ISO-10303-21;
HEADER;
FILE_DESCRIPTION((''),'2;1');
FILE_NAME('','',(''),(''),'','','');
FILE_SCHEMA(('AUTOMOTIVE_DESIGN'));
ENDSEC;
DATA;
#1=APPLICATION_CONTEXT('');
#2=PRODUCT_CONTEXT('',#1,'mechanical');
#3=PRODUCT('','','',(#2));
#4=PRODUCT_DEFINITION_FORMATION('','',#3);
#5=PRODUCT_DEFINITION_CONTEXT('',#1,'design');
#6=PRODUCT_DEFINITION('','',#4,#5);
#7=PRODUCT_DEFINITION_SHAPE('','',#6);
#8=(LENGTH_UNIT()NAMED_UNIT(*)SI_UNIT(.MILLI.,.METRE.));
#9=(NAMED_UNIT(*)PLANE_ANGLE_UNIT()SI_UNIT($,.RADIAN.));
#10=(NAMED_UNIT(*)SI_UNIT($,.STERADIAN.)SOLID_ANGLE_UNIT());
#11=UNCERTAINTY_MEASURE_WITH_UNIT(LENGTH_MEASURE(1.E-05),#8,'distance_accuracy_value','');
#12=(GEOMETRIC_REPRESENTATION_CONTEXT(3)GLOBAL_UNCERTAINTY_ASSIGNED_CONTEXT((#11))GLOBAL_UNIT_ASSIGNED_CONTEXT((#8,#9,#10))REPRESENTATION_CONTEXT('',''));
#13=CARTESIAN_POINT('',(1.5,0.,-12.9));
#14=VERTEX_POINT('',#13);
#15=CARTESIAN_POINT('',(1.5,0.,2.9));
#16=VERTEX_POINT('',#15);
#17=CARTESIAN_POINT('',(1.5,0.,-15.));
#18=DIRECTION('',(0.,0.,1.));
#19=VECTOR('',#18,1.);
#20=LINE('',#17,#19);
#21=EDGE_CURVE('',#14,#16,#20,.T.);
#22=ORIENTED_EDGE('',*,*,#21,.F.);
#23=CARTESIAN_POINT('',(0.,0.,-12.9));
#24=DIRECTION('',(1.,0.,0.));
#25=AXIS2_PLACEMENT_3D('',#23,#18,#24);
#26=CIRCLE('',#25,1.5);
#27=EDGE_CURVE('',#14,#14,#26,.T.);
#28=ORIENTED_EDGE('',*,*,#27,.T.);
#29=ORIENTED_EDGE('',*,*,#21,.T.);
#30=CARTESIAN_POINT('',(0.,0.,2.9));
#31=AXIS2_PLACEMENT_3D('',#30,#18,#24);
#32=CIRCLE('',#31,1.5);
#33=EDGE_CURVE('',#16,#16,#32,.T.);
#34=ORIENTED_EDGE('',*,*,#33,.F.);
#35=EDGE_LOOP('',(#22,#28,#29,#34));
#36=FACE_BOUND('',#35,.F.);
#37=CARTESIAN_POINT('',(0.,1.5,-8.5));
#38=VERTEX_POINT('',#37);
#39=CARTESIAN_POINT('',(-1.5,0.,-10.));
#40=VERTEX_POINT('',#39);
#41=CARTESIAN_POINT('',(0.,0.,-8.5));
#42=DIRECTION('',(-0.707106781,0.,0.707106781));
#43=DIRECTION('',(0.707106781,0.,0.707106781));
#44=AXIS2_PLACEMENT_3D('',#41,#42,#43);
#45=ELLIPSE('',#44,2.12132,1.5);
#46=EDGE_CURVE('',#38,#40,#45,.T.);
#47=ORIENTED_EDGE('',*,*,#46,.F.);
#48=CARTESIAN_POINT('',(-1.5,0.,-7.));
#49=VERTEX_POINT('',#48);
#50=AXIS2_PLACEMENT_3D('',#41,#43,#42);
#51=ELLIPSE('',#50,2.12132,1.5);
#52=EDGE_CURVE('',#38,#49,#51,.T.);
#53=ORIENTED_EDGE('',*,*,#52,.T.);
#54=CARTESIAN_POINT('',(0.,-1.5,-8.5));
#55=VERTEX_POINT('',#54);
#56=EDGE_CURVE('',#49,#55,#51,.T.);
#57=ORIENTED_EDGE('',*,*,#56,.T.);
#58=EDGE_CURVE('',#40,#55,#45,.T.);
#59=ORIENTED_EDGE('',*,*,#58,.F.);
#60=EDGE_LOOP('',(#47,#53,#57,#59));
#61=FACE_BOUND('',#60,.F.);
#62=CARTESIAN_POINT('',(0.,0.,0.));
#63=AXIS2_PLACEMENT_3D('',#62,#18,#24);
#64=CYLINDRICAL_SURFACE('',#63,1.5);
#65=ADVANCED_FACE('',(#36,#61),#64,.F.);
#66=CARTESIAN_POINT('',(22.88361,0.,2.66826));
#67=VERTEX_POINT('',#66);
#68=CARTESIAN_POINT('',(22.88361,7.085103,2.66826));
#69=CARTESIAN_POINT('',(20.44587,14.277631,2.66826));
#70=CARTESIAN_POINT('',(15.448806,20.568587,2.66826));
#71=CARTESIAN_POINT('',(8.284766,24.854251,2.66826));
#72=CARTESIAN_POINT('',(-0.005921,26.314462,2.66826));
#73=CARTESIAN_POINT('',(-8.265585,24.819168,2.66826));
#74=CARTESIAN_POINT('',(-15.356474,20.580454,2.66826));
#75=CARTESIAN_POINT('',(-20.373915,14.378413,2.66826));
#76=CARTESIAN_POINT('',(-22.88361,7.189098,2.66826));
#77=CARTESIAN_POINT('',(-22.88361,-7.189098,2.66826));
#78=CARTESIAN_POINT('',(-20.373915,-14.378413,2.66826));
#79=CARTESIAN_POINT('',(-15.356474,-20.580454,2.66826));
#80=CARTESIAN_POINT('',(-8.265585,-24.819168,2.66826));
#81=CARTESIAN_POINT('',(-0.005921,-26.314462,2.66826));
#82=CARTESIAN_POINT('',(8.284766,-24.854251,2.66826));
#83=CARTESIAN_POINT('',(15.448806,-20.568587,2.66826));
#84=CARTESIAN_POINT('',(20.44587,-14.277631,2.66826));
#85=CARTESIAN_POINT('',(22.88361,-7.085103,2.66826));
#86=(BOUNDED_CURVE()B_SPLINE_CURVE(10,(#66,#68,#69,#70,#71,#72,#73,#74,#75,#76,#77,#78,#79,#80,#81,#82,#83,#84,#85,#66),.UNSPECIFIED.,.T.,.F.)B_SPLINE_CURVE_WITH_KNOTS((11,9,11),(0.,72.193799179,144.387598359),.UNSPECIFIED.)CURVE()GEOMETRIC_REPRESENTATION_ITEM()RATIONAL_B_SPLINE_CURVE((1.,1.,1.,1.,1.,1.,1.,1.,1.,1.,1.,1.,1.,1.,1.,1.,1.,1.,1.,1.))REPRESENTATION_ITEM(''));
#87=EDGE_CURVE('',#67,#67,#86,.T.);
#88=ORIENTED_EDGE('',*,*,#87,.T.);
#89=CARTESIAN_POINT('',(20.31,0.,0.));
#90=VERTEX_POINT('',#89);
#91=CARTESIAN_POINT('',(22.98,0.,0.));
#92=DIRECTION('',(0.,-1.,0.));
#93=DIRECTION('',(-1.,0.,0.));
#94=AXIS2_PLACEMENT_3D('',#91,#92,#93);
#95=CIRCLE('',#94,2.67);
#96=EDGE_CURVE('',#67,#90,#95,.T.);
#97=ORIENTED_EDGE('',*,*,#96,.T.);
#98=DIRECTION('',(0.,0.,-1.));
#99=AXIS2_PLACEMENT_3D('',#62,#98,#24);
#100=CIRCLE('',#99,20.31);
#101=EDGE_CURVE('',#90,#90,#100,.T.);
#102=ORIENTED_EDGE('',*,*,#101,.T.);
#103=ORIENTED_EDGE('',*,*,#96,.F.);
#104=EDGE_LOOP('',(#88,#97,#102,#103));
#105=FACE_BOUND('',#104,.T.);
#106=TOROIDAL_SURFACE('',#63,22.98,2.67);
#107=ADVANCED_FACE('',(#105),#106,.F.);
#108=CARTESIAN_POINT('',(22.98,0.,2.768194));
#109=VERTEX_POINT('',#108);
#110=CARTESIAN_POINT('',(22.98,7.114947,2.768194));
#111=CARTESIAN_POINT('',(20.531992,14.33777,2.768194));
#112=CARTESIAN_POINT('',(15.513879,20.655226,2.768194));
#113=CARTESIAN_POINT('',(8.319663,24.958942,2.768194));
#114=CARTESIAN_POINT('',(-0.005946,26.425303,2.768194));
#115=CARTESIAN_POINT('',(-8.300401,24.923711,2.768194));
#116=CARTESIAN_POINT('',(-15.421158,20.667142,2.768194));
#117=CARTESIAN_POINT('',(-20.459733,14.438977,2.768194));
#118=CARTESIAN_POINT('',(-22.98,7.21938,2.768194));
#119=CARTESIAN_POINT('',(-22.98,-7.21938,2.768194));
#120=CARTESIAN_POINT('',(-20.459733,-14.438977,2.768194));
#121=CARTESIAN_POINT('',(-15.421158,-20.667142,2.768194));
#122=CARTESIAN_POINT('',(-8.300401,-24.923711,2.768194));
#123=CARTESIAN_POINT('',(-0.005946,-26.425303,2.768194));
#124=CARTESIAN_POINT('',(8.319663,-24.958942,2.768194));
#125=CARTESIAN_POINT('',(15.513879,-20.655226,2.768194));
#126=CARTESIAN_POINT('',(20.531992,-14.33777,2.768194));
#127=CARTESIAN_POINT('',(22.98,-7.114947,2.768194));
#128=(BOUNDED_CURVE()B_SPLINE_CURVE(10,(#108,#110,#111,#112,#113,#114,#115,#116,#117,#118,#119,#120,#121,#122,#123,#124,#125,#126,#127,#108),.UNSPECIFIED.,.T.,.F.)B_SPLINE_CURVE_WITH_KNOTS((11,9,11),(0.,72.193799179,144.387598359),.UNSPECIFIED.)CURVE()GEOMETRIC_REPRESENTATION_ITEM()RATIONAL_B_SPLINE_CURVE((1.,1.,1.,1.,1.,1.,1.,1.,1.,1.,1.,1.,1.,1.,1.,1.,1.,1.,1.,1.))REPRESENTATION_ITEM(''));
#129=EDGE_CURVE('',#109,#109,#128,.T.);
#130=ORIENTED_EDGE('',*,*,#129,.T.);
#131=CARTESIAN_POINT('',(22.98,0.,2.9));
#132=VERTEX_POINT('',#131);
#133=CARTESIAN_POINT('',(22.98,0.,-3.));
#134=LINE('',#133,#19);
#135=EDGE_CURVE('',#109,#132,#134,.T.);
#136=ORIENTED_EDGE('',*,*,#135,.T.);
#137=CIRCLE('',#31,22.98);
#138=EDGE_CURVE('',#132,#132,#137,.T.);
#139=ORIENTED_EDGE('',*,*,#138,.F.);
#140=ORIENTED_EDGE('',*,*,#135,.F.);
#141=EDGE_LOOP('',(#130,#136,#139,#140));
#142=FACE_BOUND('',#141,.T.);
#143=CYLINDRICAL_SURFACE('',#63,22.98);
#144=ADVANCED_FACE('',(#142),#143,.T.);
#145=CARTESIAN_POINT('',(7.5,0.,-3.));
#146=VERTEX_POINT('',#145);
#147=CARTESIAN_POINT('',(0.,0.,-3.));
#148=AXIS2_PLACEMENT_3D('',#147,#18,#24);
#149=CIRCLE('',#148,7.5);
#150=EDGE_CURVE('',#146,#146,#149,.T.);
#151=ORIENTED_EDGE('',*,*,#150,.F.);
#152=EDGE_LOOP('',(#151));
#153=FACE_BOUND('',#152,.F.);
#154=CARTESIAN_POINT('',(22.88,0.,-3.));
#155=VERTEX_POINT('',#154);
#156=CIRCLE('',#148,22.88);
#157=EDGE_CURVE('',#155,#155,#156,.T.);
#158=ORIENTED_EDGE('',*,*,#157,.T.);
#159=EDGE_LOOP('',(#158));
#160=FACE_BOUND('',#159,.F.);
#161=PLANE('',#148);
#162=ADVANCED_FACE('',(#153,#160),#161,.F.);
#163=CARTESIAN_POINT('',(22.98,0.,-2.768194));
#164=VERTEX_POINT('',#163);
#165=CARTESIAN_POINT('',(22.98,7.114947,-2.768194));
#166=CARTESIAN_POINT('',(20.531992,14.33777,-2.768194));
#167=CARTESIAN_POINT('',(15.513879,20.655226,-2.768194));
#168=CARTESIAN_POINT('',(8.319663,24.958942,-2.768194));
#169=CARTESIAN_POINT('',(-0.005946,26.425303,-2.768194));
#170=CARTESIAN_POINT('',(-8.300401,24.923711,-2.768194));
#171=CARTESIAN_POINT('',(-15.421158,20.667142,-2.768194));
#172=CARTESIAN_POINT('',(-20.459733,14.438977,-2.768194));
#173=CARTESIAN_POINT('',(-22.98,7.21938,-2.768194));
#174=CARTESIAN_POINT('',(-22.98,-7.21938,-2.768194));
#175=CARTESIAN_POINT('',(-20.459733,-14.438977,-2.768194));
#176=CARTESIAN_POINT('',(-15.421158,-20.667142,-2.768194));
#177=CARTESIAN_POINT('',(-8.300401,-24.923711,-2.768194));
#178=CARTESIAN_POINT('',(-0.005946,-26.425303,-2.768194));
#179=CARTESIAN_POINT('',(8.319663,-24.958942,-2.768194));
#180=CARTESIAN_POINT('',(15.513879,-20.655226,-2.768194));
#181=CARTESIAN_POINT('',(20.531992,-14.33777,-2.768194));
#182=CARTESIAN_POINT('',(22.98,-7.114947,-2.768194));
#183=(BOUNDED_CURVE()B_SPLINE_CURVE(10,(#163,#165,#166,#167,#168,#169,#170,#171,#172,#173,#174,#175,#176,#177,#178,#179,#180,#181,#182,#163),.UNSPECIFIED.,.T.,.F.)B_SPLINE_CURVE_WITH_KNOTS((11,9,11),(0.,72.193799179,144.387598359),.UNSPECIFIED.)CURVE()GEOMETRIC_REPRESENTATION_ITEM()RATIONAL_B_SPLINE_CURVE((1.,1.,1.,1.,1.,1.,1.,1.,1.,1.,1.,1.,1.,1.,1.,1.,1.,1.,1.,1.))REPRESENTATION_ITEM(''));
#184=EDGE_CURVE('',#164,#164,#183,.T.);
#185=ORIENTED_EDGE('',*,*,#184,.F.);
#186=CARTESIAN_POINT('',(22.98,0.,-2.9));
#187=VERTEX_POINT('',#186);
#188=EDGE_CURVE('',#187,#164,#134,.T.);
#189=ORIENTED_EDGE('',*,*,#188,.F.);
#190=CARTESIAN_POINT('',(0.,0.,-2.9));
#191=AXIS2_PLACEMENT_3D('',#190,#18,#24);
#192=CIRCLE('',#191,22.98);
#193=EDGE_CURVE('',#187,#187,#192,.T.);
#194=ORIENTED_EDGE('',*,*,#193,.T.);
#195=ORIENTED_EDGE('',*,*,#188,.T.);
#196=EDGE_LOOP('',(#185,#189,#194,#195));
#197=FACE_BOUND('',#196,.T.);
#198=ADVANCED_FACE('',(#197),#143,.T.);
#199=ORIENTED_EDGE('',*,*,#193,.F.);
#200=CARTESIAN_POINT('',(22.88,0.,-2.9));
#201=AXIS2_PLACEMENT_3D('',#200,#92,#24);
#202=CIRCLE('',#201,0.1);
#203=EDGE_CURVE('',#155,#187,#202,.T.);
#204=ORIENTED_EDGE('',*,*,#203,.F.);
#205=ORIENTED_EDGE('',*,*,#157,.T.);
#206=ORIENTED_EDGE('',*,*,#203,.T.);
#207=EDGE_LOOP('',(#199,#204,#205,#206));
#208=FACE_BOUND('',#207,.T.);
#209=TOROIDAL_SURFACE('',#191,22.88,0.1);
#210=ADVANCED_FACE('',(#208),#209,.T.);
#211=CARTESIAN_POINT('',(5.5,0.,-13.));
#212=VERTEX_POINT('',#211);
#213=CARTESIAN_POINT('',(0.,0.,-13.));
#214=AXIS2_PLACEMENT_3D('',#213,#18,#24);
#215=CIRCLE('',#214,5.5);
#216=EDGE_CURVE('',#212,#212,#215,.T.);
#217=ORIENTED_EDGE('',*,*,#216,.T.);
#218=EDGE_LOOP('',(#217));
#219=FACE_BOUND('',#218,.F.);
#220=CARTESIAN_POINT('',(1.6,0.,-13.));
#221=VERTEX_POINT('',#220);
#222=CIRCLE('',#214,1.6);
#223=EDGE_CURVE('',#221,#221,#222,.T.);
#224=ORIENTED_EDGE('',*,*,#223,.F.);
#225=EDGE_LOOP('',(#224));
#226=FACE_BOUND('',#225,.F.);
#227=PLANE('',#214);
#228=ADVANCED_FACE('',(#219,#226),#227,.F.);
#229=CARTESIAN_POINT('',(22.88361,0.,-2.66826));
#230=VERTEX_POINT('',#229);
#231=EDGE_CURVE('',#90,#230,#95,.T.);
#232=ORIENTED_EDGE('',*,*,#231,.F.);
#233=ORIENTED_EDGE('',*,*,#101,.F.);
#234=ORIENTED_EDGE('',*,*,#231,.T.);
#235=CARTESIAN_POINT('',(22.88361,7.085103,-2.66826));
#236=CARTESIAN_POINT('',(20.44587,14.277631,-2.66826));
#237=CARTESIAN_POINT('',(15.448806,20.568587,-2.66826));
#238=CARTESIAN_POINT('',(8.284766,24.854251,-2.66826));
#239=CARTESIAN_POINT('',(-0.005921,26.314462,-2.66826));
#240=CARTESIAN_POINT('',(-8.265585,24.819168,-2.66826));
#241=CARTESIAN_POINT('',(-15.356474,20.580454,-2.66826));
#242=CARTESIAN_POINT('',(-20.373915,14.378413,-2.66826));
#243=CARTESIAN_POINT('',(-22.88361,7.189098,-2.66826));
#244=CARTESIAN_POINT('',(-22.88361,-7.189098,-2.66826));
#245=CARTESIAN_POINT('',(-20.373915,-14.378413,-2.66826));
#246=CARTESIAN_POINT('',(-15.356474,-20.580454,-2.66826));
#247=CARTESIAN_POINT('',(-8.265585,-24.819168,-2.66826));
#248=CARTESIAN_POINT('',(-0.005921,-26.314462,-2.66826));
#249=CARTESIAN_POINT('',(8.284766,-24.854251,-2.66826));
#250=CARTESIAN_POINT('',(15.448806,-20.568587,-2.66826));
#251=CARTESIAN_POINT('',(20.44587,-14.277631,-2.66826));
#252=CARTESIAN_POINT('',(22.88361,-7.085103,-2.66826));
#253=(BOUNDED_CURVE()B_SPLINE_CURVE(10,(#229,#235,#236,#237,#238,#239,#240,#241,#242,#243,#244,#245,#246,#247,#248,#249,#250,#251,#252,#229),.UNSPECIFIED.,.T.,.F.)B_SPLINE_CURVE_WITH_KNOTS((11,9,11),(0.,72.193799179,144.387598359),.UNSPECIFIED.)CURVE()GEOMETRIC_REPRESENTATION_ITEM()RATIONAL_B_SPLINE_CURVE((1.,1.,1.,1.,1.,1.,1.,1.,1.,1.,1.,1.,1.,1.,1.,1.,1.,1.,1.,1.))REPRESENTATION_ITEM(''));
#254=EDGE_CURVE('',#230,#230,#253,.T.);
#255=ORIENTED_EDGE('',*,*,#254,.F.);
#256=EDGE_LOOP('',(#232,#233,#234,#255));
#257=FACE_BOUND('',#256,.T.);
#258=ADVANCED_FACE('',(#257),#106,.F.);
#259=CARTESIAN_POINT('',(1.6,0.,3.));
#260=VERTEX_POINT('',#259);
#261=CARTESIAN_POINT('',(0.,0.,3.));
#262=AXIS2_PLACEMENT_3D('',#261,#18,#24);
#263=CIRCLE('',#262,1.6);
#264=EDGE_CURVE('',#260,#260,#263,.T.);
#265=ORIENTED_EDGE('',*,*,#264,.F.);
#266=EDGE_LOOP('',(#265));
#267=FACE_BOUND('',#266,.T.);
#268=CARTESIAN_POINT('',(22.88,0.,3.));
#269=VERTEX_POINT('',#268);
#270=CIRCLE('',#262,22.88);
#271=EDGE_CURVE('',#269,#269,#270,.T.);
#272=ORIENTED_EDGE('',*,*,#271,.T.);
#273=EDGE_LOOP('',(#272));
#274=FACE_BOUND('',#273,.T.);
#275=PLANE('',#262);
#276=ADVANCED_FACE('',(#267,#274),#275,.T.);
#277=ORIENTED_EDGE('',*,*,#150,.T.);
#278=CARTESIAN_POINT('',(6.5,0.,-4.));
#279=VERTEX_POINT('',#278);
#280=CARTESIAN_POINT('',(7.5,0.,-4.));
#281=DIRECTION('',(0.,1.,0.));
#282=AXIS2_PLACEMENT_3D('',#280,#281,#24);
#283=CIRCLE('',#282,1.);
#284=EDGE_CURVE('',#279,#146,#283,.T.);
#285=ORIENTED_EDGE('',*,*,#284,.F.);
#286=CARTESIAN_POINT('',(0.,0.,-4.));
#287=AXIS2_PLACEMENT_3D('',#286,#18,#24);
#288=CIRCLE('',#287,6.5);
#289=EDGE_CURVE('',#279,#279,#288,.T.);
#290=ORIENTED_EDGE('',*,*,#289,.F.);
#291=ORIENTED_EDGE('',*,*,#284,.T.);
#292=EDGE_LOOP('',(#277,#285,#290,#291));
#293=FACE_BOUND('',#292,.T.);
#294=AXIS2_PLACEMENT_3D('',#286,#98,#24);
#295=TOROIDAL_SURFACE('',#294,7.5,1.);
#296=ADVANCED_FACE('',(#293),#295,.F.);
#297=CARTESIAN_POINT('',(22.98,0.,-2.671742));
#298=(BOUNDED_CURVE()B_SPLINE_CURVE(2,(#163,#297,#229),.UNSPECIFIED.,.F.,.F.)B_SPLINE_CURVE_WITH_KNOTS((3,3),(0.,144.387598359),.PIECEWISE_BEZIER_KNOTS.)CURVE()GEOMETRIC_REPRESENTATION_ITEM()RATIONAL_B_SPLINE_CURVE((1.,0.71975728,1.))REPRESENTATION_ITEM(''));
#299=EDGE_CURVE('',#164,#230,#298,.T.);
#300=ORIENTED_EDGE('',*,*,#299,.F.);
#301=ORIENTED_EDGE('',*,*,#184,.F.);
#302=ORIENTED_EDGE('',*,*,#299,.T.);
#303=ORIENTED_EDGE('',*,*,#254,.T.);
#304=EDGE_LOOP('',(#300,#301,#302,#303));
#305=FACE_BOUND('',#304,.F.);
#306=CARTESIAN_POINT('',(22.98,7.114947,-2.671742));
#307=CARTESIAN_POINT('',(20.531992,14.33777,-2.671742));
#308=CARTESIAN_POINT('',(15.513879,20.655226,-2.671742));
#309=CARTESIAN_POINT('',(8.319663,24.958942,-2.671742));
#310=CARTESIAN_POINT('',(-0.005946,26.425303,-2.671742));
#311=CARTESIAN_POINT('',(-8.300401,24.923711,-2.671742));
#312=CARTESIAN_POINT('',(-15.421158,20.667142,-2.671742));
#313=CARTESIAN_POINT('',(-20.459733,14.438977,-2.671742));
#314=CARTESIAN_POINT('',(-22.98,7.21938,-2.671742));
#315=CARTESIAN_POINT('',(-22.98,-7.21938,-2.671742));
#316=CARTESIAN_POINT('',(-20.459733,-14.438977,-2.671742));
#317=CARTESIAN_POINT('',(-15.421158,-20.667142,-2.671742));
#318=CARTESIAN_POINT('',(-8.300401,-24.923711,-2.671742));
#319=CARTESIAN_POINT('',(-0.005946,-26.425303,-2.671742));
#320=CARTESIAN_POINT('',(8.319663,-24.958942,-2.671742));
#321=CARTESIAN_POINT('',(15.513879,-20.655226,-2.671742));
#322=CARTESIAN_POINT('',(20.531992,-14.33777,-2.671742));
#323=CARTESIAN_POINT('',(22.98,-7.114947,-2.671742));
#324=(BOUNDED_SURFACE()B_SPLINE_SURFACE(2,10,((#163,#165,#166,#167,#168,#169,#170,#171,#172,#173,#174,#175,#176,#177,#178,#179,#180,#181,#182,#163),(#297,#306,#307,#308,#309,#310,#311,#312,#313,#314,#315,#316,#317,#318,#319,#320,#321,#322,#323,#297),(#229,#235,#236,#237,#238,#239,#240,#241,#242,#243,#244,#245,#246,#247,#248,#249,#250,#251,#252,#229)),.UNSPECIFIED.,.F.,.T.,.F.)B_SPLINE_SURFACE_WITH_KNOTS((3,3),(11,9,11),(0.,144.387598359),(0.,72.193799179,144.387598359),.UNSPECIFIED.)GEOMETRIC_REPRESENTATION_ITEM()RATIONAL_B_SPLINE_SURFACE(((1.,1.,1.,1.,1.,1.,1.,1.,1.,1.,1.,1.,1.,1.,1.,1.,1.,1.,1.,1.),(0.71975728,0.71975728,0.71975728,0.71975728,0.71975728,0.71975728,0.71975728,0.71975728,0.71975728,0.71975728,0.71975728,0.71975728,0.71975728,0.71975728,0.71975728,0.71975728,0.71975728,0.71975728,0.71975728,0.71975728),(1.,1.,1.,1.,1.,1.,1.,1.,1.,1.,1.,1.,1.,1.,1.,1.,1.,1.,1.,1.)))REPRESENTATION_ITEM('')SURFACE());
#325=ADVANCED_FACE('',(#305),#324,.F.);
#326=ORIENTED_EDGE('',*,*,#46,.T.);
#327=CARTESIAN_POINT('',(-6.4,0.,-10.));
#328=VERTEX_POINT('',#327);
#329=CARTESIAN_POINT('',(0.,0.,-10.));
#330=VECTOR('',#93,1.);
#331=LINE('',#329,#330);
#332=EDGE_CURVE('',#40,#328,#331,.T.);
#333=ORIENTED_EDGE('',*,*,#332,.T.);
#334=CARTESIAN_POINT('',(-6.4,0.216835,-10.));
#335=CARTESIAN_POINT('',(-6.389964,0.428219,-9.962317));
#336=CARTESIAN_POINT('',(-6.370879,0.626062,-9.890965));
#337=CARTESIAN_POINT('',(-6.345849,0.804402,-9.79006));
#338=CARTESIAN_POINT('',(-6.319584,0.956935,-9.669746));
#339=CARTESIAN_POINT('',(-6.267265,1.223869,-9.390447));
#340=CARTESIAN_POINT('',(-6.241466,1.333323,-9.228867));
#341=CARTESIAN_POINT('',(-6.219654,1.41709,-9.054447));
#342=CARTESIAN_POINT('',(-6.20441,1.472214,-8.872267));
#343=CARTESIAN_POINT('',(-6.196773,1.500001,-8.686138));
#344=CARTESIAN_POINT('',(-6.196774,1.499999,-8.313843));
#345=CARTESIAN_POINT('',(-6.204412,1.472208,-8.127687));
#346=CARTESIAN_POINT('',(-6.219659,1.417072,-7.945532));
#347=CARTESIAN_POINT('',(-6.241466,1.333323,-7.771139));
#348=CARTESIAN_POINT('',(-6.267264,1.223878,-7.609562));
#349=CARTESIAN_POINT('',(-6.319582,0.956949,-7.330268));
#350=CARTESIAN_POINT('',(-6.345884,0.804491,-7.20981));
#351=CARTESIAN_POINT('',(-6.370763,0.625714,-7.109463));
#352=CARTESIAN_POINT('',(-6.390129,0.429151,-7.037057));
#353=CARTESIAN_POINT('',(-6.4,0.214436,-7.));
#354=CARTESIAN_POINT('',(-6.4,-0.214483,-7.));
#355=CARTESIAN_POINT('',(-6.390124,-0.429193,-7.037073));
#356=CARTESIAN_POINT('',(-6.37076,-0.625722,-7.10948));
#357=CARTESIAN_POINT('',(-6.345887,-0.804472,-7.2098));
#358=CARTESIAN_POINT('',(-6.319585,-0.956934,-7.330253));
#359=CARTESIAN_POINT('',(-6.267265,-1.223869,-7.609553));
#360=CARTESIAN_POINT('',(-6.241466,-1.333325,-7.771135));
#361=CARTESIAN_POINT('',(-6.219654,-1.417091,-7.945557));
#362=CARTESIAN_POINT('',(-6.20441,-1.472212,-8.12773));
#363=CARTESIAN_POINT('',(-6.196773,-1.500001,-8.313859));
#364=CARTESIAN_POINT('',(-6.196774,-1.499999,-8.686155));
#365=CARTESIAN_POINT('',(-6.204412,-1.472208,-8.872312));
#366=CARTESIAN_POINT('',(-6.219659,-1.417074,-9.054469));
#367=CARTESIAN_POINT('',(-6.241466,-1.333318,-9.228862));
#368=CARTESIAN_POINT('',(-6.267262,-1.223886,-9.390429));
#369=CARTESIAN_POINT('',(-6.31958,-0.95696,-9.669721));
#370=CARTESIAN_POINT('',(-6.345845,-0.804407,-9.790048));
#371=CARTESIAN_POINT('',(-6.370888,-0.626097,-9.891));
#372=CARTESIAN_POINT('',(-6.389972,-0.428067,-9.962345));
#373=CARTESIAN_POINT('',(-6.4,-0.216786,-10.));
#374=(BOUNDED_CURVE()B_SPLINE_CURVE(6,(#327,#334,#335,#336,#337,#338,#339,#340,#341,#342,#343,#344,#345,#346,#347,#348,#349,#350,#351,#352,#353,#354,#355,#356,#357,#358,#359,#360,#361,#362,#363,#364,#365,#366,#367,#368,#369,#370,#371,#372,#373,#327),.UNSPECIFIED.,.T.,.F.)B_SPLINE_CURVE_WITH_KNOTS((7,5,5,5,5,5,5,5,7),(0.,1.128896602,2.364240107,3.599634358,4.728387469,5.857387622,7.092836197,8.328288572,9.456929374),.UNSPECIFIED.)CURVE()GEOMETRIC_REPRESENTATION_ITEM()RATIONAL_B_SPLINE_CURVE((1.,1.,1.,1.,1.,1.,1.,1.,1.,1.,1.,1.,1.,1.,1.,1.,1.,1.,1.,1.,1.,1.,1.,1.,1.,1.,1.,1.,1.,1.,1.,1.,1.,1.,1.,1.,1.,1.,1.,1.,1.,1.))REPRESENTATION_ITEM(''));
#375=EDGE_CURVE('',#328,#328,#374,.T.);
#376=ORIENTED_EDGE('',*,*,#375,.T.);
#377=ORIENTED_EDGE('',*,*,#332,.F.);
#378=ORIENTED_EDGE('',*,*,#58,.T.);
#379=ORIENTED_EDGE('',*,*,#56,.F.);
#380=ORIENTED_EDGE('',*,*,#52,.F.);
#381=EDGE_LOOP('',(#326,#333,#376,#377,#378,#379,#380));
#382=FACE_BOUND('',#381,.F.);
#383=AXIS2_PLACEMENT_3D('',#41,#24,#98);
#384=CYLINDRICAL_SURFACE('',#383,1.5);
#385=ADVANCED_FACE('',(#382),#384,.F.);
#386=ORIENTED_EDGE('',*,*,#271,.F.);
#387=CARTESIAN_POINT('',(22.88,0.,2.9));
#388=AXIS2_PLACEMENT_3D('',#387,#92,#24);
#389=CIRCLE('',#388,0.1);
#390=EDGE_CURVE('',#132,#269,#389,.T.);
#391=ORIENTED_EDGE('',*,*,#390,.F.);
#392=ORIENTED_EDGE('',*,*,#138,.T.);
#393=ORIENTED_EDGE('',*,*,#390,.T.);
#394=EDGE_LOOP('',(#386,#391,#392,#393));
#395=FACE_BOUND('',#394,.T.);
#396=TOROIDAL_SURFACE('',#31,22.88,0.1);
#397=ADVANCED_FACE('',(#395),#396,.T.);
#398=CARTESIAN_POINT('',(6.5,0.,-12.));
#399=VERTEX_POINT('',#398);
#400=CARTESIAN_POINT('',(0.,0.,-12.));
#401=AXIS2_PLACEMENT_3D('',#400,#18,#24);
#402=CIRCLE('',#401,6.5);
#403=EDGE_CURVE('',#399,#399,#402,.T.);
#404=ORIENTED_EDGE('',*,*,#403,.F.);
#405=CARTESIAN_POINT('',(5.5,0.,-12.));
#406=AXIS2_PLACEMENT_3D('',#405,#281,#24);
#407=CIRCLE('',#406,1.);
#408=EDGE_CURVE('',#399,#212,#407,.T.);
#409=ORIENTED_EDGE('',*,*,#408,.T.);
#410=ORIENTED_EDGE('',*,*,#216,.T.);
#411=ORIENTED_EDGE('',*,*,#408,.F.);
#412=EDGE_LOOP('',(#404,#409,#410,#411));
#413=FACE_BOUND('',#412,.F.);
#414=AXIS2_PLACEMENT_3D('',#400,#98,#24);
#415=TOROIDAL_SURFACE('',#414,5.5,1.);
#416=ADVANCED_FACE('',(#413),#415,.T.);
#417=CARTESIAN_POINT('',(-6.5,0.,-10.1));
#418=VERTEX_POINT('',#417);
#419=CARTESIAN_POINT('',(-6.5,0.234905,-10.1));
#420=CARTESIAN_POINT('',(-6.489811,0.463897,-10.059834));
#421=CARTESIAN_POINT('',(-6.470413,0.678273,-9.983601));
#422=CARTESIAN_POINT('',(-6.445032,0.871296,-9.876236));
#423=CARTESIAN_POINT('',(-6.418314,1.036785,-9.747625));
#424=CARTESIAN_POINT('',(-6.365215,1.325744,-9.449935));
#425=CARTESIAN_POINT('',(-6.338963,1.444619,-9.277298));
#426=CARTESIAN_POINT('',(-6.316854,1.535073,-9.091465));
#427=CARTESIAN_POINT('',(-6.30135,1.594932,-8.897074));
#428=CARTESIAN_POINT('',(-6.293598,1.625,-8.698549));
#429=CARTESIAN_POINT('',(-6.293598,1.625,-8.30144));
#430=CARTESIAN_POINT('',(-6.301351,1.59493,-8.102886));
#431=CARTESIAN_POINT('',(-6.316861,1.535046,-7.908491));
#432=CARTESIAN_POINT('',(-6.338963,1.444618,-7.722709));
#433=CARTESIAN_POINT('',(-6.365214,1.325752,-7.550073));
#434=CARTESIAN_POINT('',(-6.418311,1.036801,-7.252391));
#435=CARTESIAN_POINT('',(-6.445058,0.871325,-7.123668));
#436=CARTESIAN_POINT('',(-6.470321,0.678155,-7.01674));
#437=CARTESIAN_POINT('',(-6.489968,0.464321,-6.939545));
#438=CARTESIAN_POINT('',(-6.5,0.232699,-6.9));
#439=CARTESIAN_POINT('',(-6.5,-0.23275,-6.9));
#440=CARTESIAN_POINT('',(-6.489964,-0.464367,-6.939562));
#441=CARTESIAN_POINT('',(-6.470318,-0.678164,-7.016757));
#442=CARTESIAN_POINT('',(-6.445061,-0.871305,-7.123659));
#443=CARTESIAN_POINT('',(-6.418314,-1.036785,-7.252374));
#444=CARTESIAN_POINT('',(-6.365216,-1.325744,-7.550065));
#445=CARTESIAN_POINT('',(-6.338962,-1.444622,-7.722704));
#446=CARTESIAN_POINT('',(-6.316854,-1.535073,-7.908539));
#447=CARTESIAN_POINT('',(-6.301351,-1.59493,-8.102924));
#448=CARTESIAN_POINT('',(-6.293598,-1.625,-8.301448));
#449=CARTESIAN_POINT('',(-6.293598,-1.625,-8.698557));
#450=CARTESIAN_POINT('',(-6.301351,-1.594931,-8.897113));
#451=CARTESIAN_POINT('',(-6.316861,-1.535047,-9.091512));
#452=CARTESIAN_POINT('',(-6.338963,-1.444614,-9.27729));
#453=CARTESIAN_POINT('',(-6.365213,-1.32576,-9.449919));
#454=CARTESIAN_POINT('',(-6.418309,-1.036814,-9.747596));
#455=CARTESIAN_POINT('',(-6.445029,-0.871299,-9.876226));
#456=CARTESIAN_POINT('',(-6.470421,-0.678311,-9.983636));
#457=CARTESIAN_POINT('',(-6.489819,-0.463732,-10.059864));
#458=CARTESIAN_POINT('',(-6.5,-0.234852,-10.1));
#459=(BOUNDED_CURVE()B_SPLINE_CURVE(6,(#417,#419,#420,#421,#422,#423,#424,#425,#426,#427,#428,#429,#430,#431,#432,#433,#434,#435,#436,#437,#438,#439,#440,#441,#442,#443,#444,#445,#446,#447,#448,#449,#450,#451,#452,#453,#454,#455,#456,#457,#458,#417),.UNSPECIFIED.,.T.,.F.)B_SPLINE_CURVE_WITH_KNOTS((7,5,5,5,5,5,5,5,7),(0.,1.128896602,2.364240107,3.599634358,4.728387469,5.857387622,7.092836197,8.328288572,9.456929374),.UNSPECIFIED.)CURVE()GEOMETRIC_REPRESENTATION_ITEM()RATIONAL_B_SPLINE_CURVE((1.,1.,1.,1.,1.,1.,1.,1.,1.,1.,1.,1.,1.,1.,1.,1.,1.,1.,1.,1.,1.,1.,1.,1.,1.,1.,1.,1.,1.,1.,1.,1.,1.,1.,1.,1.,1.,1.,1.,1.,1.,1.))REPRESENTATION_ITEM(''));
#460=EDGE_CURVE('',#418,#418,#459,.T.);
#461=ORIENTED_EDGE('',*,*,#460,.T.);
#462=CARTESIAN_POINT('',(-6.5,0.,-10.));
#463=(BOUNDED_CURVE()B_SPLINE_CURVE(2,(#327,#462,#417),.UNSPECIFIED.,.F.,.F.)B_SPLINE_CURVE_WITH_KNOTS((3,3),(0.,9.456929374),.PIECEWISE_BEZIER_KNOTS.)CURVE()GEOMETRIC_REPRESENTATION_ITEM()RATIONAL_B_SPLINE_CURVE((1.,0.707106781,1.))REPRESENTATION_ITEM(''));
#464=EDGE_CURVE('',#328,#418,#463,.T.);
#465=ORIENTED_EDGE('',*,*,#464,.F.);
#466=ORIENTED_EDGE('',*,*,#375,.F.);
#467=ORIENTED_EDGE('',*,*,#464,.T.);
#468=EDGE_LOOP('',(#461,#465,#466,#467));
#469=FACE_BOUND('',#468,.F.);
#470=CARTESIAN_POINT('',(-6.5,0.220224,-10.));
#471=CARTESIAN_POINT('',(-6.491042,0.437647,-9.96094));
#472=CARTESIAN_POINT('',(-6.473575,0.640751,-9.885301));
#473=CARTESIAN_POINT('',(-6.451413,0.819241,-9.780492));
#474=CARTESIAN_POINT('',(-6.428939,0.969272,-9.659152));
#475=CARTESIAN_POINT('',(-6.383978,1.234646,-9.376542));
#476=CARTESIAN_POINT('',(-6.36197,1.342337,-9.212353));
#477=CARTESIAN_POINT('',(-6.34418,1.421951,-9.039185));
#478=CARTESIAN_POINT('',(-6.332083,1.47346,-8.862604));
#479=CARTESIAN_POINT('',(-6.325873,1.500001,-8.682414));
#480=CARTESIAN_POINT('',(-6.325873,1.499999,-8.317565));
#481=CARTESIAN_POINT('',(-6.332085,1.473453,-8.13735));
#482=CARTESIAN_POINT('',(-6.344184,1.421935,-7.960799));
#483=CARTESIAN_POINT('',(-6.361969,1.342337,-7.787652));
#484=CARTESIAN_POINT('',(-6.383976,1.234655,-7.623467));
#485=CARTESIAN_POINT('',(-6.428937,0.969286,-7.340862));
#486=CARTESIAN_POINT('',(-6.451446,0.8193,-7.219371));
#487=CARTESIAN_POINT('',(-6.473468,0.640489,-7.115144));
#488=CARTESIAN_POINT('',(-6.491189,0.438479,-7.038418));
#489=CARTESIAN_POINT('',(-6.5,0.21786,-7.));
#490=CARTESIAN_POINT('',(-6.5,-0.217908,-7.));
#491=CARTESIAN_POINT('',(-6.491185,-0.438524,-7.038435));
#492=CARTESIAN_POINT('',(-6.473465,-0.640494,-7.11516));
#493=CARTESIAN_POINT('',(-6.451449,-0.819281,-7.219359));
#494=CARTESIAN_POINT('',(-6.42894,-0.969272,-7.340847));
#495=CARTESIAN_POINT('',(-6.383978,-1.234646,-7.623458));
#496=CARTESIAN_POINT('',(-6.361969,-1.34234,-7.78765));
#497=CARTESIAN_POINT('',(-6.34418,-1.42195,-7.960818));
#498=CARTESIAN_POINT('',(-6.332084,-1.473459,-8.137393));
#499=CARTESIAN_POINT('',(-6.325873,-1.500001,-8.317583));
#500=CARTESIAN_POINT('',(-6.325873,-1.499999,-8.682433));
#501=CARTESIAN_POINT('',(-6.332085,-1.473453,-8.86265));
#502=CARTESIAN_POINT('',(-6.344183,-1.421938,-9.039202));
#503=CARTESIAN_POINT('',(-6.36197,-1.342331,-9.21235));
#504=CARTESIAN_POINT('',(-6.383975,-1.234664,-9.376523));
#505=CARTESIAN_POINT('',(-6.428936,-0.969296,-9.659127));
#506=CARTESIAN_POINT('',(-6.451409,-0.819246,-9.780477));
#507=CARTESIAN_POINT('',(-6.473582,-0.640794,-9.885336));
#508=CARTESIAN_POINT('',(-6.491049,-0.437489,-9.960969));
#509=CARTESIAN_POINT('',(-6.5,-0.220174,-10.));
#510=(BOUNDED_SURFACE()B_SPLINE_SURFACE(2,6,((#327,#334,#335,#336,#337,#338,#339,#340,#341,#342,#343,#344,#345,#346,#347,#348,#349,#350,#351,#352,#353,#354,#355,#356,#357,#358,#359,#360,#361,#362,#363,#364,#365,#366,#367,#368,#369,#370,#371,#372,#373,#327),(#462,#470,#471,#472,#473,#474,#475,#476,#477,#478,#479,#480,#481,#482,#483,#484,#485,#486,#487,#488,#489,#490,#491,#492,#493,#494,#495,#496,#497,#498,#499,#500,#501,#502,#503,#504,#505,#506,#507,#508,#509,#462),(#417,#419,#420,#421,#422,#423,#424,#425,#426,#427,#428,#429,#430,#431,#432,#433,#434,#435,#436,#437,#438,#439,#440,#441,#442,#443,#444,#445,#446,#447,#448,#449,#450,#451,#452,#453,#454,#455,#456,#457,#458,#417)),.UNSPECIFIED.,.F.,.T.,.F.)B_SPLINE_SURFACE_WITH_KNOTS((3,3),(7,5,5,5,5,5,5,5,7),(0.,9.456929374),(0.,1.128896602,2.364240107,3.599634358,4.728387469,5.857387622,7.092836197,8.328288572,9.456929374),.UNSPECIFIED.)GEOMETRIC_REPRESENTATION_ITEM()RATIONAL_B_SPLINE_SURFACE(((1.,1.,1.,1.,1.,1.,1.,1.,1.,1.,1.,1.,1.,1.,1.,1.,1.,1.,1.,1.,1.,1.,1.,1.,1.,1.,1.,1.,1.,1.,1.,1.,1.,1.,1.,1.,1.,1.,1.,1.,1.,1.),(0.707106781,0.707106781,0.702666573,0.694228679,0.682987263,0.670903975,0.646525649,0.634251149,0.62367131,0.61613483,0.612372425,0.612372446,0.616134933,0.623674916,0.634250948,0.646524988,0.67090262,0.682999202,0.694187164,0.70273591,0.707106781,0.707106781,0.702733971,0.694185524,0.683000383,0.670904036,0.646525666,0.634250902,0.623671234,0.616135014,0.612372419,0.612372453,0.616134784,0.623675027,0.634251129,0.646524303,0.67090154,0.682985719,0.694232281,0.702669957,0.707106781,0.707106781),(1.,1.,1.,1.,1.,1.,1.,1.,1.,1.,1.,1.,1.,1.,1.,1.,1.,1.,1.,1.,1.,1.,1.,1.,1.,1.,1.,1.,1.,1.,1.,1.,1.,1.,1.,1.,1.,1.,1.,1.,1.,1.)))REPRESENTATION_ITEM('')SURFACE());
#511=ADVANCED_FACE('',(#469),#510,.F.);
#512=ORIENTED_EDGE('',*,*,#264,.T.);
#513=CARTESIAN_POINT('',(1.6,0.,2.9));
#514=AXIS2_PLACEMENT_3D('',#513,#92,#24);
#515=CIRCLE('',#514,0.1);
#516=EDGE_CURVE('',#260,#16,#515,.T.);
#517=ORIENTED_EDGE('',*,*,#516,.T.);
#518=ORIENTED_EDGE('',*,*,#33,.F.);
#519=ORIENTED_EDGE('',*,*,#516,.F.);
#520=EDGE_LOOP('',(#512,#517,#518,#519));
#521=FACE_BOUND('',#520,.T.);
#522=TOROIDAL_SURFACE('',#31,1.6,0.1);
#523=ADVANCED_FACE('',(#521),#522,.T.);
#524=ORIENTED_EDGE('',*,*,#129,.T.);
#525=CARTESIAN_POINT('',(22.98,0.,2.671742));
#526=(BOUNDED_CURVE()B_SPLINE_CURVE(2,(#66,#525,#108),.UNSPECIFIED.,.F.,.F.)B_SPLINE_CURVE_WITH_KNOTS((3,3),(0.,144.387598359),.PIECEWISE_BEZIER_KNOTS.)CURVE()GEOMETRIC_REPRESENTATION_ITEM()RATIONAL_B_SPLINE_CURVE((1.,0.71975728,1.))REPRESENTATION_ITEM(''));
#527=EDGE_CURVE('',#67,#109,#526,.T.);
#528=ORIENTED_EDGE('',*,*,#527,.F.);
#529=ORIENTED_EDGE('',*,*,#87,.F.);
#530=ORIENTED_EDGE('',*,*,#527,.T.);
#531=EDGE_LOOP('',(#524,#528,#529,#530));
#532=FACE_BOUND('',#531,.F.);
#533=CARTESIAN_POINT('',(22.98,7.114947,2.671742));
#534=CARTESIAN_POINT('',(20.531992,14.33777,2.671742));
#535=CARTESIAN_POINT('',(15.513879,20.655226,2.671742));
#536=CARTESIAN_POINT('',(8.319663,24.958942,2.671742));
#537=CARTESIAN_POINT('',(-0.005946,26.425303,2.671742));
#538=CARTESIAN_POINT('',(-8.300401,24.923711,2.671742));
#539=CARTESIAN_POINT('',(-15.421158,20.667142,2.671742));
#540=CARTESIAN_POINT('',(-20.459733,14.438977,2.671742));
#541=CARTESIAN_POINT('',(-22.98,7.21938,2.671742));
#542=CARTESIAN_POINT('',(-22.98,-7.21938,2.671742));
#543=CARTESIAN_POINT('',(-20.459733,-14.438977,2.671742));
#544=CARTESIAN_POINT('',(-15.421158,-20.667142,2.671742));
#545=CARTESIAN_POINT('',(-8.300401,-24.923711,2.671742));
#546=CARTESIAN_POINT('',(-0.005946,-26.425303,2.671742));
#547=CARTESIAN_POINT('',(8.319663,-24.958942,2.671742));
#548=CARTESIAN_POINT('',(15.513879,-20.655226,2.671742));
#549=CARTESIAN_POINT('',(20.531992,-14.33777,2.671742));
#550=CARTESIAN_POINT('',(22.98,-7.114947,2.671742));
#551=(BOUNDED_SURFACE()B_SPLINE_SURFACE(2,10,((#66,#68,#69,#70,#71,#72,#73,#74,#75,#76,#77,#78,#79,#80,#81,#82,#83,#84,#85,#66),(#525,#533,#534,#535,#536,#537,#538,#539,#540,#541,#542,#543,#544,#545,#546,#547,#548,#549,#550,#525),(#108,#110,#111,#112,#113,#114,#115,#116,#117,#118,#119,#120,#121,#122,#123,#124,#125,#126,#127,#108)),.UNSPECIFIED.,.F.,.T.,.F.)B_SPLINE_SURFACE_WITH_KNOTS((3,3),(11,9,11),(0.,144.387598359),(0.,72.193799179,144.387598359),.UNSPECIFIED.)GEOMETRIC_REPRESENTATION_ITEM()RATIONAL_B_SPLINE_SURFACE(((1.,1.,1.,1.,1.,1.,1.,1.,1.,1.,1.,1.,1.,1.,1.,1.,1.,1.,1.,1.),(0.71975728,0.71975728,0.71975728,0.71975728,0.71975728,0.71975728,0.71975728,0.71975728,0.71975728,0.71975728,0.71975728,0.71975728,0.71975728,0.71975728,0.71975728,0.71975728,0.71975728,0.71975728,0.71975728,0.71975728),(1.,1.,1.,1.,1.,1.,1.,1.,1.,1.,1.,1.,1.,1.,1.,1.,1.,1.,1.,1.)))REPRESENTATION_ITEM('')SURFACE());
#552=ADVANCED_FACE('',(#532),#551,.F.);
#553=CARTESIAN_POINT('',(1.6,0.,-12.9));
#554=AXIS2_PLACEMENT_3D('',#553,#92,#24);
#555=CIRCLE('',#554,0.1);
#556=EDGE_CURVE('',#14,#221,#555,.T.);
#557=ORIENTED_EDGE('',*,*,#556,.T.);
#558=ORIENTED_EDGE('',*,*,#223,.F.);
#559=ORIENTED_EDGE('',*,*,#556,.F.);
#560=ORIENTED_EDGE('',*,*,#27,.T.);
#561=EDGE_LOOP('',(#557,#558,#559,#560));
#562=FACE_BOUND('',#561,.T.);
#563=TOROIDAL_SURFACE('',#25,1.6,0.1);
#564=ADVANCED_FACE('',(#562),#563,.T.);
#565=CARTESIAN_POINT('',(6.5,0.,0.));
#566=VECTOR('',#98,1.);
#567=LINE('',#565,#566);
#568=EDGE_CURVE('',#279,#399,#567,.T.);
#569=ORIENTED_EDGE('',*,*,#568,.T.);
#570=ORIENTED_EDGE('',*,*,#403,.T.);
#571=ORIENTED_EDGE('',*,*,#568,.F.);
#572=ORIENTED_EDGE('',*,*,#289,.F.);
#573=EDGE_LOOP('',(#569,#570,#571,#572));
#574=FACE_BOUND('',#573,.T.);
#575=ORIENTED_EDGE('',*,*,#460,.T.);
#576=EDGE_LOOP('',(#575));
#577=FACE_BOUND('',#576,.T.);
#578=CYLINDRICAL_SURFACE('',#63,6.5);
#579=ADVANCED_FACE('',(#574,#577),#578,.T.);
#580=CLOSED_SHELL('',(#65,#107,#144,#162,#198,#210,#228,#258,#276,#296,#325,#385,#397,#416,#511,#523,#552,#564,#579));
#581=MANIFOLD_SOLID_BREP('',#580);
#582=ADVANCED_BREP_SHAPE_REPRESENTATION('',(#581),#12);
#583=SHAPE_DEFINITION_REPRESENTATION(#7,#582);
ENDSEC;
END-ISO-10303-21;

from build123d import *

# Parameters (mm, degrees)
ESQUISSE1_R             = 22.98
BOSS_EXTRU_2_DEPTH      = 3
ESQUISSE6_R             = 2.67
ESQUISSE7_R             = 6.5
BOSS_EXTRU_3_DEPTH      = 13
ESQUISSE8_R             = 1.5
ENL_V_MAT_EXTRU_1_DEPTH = 15
ESQUISSE10_R            = 1.5
ENL_V_MAT_EXTRU_2_DEPTH = 10
CONG_1_R                = 1
CONG_2_R                = 1
CONG_3_R                = 0.1
CONG_4_R                = 0.1
CONG_5_R                = 0.1
CONG_6_R                = 0.1
CONG_7_R                = 0.1
CONG_8_R                = 0.1
CONG_9_R                = 0.1


with BuildPart() as part:
    # Esquisse1 → Boss.-Extru.2 (new, symmetric)
    with BuildSketch(Plane.XY):
        Circle(ESQUISSE1_R)
    extrude(amount=BOSS_EXTRU_2_DEPTH, both=True)

    # Esquisse6 → Enlèvement de matière-Révolution1 (revolve, cut)
    with BuildSketch(Plane(origin=(0, 0, 0), x_dir=(1, 0, 0), z_dir=(0, 1, 0)), mode=Mode.PRIVATE) as enl_vement_de_mati_re_r_volution1_sk:
        with Locations((-22.98, 0)):
            Circle(ESQUISSE6_R)
    revolve(enl_vement_de_mati_re_r_volution1_sk.sketch.rotate(Axis((0, 0, 3), (0, 0, -1)), 180), axis=Axis((0, 0, 3), (0, 0, -1)), mode=Mode.SUBTRACT)

    # Esquisse7 → Boss.-Extru.3 (add)
    with BuildSketch(Plane.XY):
        Circle(ESQUISSE7_R)
    extrude(amount=-BOSS_EXTRU_3_DEPTH)

    # Esquisse8 → Enlèv. mat.-Extru.1 (cut, symmetric)
    with BuildSketch(Plane.XY):
        Circle(ESQUISSE8_R)
    extrude(amount=ENL_V_MAT_EXTRU_1_DEPTH, both=True, mode=Mode.SUBTRACT)

    # Esquisse10 → Enlèv. mat.-Extru.2 (cut)
    with BuildSketch(Plane(origin=(0, 0, 0), x_dir=(0, 0, -1), z_dir=(1, 0, 0))):
        with Locations((8.5, 0)):
            Circle(ESQUISSE10_R)
    extrude(amount=-ENL_V_MAT_EXTRU_2_DEPTH, mode=Mode.SUBTRACT)

    # Congé1
    cong_1_edges = [part.edges().sort_by_distance(p)[0] for p in [
        (-6.5, 0, -13),
    ]]
    fillet(cong_1_edges, radius=CONG_1_R)

    # Congé2
    cong_2_edges = [part.edges().sort_by_distance(p)[0] for p in [
        (-6.5, 0, -3),
    ]]
    fillet(cong_2_edges, radius=CONG_2_R)

    # Congé3
    cong_3_edges = [part.edges().sort_by_distance(p)[0] for p in [
        (-22.98, 0, -3),
    ]]
    fillet(cong_3_edges, radius=CONG_3_R)

    # Congé4
    cong_4_edges = [part.edges().sort_by_distance(p)[0] for p in [
        (-22.98, 0, -2.67),
    ]]
    fillet(cong_4_edges, radius=CONG_4_R)

    # Congé5
    cong_5_edges = [part.edges().sort_by_distance(p)[0] for p in [
        (-22.98, 0, 2.67),
    ]]
    fillet(cong_5_edges, radius=CONG_5_R)

    # Congé6
    cong_6_edges = [part.edges().sort_by_distance(p)[0] for p in [
        (-22.98, 0, 3),
    ]]
    fillet(cong_6_edges, radius=CONG_6_R)

    # Congé7
    cong_7_edges = [part.edges().sort_by_distance(p)[0] for p in [
        (-1.5, 0, 3),
    ]]
    fillet(cong_7_edges, radius=CONG_7_R)

    # Congé8
    cong_8_edges = [part.edges().sort_by_distance(p)[0] for p in [
        (-1.5, 0, -13),
    ]]
    fillet(cong_8_edges, radius=CONG_8_R)

    # Congé9
    cong_9_edges = [part.edges().sort_by_distance(p)[0] for p in [
        (-6.5, 0, -7),
    ]]
    fillet(cong_9_edges, radius=CONG_9_R)


solid = part.part
